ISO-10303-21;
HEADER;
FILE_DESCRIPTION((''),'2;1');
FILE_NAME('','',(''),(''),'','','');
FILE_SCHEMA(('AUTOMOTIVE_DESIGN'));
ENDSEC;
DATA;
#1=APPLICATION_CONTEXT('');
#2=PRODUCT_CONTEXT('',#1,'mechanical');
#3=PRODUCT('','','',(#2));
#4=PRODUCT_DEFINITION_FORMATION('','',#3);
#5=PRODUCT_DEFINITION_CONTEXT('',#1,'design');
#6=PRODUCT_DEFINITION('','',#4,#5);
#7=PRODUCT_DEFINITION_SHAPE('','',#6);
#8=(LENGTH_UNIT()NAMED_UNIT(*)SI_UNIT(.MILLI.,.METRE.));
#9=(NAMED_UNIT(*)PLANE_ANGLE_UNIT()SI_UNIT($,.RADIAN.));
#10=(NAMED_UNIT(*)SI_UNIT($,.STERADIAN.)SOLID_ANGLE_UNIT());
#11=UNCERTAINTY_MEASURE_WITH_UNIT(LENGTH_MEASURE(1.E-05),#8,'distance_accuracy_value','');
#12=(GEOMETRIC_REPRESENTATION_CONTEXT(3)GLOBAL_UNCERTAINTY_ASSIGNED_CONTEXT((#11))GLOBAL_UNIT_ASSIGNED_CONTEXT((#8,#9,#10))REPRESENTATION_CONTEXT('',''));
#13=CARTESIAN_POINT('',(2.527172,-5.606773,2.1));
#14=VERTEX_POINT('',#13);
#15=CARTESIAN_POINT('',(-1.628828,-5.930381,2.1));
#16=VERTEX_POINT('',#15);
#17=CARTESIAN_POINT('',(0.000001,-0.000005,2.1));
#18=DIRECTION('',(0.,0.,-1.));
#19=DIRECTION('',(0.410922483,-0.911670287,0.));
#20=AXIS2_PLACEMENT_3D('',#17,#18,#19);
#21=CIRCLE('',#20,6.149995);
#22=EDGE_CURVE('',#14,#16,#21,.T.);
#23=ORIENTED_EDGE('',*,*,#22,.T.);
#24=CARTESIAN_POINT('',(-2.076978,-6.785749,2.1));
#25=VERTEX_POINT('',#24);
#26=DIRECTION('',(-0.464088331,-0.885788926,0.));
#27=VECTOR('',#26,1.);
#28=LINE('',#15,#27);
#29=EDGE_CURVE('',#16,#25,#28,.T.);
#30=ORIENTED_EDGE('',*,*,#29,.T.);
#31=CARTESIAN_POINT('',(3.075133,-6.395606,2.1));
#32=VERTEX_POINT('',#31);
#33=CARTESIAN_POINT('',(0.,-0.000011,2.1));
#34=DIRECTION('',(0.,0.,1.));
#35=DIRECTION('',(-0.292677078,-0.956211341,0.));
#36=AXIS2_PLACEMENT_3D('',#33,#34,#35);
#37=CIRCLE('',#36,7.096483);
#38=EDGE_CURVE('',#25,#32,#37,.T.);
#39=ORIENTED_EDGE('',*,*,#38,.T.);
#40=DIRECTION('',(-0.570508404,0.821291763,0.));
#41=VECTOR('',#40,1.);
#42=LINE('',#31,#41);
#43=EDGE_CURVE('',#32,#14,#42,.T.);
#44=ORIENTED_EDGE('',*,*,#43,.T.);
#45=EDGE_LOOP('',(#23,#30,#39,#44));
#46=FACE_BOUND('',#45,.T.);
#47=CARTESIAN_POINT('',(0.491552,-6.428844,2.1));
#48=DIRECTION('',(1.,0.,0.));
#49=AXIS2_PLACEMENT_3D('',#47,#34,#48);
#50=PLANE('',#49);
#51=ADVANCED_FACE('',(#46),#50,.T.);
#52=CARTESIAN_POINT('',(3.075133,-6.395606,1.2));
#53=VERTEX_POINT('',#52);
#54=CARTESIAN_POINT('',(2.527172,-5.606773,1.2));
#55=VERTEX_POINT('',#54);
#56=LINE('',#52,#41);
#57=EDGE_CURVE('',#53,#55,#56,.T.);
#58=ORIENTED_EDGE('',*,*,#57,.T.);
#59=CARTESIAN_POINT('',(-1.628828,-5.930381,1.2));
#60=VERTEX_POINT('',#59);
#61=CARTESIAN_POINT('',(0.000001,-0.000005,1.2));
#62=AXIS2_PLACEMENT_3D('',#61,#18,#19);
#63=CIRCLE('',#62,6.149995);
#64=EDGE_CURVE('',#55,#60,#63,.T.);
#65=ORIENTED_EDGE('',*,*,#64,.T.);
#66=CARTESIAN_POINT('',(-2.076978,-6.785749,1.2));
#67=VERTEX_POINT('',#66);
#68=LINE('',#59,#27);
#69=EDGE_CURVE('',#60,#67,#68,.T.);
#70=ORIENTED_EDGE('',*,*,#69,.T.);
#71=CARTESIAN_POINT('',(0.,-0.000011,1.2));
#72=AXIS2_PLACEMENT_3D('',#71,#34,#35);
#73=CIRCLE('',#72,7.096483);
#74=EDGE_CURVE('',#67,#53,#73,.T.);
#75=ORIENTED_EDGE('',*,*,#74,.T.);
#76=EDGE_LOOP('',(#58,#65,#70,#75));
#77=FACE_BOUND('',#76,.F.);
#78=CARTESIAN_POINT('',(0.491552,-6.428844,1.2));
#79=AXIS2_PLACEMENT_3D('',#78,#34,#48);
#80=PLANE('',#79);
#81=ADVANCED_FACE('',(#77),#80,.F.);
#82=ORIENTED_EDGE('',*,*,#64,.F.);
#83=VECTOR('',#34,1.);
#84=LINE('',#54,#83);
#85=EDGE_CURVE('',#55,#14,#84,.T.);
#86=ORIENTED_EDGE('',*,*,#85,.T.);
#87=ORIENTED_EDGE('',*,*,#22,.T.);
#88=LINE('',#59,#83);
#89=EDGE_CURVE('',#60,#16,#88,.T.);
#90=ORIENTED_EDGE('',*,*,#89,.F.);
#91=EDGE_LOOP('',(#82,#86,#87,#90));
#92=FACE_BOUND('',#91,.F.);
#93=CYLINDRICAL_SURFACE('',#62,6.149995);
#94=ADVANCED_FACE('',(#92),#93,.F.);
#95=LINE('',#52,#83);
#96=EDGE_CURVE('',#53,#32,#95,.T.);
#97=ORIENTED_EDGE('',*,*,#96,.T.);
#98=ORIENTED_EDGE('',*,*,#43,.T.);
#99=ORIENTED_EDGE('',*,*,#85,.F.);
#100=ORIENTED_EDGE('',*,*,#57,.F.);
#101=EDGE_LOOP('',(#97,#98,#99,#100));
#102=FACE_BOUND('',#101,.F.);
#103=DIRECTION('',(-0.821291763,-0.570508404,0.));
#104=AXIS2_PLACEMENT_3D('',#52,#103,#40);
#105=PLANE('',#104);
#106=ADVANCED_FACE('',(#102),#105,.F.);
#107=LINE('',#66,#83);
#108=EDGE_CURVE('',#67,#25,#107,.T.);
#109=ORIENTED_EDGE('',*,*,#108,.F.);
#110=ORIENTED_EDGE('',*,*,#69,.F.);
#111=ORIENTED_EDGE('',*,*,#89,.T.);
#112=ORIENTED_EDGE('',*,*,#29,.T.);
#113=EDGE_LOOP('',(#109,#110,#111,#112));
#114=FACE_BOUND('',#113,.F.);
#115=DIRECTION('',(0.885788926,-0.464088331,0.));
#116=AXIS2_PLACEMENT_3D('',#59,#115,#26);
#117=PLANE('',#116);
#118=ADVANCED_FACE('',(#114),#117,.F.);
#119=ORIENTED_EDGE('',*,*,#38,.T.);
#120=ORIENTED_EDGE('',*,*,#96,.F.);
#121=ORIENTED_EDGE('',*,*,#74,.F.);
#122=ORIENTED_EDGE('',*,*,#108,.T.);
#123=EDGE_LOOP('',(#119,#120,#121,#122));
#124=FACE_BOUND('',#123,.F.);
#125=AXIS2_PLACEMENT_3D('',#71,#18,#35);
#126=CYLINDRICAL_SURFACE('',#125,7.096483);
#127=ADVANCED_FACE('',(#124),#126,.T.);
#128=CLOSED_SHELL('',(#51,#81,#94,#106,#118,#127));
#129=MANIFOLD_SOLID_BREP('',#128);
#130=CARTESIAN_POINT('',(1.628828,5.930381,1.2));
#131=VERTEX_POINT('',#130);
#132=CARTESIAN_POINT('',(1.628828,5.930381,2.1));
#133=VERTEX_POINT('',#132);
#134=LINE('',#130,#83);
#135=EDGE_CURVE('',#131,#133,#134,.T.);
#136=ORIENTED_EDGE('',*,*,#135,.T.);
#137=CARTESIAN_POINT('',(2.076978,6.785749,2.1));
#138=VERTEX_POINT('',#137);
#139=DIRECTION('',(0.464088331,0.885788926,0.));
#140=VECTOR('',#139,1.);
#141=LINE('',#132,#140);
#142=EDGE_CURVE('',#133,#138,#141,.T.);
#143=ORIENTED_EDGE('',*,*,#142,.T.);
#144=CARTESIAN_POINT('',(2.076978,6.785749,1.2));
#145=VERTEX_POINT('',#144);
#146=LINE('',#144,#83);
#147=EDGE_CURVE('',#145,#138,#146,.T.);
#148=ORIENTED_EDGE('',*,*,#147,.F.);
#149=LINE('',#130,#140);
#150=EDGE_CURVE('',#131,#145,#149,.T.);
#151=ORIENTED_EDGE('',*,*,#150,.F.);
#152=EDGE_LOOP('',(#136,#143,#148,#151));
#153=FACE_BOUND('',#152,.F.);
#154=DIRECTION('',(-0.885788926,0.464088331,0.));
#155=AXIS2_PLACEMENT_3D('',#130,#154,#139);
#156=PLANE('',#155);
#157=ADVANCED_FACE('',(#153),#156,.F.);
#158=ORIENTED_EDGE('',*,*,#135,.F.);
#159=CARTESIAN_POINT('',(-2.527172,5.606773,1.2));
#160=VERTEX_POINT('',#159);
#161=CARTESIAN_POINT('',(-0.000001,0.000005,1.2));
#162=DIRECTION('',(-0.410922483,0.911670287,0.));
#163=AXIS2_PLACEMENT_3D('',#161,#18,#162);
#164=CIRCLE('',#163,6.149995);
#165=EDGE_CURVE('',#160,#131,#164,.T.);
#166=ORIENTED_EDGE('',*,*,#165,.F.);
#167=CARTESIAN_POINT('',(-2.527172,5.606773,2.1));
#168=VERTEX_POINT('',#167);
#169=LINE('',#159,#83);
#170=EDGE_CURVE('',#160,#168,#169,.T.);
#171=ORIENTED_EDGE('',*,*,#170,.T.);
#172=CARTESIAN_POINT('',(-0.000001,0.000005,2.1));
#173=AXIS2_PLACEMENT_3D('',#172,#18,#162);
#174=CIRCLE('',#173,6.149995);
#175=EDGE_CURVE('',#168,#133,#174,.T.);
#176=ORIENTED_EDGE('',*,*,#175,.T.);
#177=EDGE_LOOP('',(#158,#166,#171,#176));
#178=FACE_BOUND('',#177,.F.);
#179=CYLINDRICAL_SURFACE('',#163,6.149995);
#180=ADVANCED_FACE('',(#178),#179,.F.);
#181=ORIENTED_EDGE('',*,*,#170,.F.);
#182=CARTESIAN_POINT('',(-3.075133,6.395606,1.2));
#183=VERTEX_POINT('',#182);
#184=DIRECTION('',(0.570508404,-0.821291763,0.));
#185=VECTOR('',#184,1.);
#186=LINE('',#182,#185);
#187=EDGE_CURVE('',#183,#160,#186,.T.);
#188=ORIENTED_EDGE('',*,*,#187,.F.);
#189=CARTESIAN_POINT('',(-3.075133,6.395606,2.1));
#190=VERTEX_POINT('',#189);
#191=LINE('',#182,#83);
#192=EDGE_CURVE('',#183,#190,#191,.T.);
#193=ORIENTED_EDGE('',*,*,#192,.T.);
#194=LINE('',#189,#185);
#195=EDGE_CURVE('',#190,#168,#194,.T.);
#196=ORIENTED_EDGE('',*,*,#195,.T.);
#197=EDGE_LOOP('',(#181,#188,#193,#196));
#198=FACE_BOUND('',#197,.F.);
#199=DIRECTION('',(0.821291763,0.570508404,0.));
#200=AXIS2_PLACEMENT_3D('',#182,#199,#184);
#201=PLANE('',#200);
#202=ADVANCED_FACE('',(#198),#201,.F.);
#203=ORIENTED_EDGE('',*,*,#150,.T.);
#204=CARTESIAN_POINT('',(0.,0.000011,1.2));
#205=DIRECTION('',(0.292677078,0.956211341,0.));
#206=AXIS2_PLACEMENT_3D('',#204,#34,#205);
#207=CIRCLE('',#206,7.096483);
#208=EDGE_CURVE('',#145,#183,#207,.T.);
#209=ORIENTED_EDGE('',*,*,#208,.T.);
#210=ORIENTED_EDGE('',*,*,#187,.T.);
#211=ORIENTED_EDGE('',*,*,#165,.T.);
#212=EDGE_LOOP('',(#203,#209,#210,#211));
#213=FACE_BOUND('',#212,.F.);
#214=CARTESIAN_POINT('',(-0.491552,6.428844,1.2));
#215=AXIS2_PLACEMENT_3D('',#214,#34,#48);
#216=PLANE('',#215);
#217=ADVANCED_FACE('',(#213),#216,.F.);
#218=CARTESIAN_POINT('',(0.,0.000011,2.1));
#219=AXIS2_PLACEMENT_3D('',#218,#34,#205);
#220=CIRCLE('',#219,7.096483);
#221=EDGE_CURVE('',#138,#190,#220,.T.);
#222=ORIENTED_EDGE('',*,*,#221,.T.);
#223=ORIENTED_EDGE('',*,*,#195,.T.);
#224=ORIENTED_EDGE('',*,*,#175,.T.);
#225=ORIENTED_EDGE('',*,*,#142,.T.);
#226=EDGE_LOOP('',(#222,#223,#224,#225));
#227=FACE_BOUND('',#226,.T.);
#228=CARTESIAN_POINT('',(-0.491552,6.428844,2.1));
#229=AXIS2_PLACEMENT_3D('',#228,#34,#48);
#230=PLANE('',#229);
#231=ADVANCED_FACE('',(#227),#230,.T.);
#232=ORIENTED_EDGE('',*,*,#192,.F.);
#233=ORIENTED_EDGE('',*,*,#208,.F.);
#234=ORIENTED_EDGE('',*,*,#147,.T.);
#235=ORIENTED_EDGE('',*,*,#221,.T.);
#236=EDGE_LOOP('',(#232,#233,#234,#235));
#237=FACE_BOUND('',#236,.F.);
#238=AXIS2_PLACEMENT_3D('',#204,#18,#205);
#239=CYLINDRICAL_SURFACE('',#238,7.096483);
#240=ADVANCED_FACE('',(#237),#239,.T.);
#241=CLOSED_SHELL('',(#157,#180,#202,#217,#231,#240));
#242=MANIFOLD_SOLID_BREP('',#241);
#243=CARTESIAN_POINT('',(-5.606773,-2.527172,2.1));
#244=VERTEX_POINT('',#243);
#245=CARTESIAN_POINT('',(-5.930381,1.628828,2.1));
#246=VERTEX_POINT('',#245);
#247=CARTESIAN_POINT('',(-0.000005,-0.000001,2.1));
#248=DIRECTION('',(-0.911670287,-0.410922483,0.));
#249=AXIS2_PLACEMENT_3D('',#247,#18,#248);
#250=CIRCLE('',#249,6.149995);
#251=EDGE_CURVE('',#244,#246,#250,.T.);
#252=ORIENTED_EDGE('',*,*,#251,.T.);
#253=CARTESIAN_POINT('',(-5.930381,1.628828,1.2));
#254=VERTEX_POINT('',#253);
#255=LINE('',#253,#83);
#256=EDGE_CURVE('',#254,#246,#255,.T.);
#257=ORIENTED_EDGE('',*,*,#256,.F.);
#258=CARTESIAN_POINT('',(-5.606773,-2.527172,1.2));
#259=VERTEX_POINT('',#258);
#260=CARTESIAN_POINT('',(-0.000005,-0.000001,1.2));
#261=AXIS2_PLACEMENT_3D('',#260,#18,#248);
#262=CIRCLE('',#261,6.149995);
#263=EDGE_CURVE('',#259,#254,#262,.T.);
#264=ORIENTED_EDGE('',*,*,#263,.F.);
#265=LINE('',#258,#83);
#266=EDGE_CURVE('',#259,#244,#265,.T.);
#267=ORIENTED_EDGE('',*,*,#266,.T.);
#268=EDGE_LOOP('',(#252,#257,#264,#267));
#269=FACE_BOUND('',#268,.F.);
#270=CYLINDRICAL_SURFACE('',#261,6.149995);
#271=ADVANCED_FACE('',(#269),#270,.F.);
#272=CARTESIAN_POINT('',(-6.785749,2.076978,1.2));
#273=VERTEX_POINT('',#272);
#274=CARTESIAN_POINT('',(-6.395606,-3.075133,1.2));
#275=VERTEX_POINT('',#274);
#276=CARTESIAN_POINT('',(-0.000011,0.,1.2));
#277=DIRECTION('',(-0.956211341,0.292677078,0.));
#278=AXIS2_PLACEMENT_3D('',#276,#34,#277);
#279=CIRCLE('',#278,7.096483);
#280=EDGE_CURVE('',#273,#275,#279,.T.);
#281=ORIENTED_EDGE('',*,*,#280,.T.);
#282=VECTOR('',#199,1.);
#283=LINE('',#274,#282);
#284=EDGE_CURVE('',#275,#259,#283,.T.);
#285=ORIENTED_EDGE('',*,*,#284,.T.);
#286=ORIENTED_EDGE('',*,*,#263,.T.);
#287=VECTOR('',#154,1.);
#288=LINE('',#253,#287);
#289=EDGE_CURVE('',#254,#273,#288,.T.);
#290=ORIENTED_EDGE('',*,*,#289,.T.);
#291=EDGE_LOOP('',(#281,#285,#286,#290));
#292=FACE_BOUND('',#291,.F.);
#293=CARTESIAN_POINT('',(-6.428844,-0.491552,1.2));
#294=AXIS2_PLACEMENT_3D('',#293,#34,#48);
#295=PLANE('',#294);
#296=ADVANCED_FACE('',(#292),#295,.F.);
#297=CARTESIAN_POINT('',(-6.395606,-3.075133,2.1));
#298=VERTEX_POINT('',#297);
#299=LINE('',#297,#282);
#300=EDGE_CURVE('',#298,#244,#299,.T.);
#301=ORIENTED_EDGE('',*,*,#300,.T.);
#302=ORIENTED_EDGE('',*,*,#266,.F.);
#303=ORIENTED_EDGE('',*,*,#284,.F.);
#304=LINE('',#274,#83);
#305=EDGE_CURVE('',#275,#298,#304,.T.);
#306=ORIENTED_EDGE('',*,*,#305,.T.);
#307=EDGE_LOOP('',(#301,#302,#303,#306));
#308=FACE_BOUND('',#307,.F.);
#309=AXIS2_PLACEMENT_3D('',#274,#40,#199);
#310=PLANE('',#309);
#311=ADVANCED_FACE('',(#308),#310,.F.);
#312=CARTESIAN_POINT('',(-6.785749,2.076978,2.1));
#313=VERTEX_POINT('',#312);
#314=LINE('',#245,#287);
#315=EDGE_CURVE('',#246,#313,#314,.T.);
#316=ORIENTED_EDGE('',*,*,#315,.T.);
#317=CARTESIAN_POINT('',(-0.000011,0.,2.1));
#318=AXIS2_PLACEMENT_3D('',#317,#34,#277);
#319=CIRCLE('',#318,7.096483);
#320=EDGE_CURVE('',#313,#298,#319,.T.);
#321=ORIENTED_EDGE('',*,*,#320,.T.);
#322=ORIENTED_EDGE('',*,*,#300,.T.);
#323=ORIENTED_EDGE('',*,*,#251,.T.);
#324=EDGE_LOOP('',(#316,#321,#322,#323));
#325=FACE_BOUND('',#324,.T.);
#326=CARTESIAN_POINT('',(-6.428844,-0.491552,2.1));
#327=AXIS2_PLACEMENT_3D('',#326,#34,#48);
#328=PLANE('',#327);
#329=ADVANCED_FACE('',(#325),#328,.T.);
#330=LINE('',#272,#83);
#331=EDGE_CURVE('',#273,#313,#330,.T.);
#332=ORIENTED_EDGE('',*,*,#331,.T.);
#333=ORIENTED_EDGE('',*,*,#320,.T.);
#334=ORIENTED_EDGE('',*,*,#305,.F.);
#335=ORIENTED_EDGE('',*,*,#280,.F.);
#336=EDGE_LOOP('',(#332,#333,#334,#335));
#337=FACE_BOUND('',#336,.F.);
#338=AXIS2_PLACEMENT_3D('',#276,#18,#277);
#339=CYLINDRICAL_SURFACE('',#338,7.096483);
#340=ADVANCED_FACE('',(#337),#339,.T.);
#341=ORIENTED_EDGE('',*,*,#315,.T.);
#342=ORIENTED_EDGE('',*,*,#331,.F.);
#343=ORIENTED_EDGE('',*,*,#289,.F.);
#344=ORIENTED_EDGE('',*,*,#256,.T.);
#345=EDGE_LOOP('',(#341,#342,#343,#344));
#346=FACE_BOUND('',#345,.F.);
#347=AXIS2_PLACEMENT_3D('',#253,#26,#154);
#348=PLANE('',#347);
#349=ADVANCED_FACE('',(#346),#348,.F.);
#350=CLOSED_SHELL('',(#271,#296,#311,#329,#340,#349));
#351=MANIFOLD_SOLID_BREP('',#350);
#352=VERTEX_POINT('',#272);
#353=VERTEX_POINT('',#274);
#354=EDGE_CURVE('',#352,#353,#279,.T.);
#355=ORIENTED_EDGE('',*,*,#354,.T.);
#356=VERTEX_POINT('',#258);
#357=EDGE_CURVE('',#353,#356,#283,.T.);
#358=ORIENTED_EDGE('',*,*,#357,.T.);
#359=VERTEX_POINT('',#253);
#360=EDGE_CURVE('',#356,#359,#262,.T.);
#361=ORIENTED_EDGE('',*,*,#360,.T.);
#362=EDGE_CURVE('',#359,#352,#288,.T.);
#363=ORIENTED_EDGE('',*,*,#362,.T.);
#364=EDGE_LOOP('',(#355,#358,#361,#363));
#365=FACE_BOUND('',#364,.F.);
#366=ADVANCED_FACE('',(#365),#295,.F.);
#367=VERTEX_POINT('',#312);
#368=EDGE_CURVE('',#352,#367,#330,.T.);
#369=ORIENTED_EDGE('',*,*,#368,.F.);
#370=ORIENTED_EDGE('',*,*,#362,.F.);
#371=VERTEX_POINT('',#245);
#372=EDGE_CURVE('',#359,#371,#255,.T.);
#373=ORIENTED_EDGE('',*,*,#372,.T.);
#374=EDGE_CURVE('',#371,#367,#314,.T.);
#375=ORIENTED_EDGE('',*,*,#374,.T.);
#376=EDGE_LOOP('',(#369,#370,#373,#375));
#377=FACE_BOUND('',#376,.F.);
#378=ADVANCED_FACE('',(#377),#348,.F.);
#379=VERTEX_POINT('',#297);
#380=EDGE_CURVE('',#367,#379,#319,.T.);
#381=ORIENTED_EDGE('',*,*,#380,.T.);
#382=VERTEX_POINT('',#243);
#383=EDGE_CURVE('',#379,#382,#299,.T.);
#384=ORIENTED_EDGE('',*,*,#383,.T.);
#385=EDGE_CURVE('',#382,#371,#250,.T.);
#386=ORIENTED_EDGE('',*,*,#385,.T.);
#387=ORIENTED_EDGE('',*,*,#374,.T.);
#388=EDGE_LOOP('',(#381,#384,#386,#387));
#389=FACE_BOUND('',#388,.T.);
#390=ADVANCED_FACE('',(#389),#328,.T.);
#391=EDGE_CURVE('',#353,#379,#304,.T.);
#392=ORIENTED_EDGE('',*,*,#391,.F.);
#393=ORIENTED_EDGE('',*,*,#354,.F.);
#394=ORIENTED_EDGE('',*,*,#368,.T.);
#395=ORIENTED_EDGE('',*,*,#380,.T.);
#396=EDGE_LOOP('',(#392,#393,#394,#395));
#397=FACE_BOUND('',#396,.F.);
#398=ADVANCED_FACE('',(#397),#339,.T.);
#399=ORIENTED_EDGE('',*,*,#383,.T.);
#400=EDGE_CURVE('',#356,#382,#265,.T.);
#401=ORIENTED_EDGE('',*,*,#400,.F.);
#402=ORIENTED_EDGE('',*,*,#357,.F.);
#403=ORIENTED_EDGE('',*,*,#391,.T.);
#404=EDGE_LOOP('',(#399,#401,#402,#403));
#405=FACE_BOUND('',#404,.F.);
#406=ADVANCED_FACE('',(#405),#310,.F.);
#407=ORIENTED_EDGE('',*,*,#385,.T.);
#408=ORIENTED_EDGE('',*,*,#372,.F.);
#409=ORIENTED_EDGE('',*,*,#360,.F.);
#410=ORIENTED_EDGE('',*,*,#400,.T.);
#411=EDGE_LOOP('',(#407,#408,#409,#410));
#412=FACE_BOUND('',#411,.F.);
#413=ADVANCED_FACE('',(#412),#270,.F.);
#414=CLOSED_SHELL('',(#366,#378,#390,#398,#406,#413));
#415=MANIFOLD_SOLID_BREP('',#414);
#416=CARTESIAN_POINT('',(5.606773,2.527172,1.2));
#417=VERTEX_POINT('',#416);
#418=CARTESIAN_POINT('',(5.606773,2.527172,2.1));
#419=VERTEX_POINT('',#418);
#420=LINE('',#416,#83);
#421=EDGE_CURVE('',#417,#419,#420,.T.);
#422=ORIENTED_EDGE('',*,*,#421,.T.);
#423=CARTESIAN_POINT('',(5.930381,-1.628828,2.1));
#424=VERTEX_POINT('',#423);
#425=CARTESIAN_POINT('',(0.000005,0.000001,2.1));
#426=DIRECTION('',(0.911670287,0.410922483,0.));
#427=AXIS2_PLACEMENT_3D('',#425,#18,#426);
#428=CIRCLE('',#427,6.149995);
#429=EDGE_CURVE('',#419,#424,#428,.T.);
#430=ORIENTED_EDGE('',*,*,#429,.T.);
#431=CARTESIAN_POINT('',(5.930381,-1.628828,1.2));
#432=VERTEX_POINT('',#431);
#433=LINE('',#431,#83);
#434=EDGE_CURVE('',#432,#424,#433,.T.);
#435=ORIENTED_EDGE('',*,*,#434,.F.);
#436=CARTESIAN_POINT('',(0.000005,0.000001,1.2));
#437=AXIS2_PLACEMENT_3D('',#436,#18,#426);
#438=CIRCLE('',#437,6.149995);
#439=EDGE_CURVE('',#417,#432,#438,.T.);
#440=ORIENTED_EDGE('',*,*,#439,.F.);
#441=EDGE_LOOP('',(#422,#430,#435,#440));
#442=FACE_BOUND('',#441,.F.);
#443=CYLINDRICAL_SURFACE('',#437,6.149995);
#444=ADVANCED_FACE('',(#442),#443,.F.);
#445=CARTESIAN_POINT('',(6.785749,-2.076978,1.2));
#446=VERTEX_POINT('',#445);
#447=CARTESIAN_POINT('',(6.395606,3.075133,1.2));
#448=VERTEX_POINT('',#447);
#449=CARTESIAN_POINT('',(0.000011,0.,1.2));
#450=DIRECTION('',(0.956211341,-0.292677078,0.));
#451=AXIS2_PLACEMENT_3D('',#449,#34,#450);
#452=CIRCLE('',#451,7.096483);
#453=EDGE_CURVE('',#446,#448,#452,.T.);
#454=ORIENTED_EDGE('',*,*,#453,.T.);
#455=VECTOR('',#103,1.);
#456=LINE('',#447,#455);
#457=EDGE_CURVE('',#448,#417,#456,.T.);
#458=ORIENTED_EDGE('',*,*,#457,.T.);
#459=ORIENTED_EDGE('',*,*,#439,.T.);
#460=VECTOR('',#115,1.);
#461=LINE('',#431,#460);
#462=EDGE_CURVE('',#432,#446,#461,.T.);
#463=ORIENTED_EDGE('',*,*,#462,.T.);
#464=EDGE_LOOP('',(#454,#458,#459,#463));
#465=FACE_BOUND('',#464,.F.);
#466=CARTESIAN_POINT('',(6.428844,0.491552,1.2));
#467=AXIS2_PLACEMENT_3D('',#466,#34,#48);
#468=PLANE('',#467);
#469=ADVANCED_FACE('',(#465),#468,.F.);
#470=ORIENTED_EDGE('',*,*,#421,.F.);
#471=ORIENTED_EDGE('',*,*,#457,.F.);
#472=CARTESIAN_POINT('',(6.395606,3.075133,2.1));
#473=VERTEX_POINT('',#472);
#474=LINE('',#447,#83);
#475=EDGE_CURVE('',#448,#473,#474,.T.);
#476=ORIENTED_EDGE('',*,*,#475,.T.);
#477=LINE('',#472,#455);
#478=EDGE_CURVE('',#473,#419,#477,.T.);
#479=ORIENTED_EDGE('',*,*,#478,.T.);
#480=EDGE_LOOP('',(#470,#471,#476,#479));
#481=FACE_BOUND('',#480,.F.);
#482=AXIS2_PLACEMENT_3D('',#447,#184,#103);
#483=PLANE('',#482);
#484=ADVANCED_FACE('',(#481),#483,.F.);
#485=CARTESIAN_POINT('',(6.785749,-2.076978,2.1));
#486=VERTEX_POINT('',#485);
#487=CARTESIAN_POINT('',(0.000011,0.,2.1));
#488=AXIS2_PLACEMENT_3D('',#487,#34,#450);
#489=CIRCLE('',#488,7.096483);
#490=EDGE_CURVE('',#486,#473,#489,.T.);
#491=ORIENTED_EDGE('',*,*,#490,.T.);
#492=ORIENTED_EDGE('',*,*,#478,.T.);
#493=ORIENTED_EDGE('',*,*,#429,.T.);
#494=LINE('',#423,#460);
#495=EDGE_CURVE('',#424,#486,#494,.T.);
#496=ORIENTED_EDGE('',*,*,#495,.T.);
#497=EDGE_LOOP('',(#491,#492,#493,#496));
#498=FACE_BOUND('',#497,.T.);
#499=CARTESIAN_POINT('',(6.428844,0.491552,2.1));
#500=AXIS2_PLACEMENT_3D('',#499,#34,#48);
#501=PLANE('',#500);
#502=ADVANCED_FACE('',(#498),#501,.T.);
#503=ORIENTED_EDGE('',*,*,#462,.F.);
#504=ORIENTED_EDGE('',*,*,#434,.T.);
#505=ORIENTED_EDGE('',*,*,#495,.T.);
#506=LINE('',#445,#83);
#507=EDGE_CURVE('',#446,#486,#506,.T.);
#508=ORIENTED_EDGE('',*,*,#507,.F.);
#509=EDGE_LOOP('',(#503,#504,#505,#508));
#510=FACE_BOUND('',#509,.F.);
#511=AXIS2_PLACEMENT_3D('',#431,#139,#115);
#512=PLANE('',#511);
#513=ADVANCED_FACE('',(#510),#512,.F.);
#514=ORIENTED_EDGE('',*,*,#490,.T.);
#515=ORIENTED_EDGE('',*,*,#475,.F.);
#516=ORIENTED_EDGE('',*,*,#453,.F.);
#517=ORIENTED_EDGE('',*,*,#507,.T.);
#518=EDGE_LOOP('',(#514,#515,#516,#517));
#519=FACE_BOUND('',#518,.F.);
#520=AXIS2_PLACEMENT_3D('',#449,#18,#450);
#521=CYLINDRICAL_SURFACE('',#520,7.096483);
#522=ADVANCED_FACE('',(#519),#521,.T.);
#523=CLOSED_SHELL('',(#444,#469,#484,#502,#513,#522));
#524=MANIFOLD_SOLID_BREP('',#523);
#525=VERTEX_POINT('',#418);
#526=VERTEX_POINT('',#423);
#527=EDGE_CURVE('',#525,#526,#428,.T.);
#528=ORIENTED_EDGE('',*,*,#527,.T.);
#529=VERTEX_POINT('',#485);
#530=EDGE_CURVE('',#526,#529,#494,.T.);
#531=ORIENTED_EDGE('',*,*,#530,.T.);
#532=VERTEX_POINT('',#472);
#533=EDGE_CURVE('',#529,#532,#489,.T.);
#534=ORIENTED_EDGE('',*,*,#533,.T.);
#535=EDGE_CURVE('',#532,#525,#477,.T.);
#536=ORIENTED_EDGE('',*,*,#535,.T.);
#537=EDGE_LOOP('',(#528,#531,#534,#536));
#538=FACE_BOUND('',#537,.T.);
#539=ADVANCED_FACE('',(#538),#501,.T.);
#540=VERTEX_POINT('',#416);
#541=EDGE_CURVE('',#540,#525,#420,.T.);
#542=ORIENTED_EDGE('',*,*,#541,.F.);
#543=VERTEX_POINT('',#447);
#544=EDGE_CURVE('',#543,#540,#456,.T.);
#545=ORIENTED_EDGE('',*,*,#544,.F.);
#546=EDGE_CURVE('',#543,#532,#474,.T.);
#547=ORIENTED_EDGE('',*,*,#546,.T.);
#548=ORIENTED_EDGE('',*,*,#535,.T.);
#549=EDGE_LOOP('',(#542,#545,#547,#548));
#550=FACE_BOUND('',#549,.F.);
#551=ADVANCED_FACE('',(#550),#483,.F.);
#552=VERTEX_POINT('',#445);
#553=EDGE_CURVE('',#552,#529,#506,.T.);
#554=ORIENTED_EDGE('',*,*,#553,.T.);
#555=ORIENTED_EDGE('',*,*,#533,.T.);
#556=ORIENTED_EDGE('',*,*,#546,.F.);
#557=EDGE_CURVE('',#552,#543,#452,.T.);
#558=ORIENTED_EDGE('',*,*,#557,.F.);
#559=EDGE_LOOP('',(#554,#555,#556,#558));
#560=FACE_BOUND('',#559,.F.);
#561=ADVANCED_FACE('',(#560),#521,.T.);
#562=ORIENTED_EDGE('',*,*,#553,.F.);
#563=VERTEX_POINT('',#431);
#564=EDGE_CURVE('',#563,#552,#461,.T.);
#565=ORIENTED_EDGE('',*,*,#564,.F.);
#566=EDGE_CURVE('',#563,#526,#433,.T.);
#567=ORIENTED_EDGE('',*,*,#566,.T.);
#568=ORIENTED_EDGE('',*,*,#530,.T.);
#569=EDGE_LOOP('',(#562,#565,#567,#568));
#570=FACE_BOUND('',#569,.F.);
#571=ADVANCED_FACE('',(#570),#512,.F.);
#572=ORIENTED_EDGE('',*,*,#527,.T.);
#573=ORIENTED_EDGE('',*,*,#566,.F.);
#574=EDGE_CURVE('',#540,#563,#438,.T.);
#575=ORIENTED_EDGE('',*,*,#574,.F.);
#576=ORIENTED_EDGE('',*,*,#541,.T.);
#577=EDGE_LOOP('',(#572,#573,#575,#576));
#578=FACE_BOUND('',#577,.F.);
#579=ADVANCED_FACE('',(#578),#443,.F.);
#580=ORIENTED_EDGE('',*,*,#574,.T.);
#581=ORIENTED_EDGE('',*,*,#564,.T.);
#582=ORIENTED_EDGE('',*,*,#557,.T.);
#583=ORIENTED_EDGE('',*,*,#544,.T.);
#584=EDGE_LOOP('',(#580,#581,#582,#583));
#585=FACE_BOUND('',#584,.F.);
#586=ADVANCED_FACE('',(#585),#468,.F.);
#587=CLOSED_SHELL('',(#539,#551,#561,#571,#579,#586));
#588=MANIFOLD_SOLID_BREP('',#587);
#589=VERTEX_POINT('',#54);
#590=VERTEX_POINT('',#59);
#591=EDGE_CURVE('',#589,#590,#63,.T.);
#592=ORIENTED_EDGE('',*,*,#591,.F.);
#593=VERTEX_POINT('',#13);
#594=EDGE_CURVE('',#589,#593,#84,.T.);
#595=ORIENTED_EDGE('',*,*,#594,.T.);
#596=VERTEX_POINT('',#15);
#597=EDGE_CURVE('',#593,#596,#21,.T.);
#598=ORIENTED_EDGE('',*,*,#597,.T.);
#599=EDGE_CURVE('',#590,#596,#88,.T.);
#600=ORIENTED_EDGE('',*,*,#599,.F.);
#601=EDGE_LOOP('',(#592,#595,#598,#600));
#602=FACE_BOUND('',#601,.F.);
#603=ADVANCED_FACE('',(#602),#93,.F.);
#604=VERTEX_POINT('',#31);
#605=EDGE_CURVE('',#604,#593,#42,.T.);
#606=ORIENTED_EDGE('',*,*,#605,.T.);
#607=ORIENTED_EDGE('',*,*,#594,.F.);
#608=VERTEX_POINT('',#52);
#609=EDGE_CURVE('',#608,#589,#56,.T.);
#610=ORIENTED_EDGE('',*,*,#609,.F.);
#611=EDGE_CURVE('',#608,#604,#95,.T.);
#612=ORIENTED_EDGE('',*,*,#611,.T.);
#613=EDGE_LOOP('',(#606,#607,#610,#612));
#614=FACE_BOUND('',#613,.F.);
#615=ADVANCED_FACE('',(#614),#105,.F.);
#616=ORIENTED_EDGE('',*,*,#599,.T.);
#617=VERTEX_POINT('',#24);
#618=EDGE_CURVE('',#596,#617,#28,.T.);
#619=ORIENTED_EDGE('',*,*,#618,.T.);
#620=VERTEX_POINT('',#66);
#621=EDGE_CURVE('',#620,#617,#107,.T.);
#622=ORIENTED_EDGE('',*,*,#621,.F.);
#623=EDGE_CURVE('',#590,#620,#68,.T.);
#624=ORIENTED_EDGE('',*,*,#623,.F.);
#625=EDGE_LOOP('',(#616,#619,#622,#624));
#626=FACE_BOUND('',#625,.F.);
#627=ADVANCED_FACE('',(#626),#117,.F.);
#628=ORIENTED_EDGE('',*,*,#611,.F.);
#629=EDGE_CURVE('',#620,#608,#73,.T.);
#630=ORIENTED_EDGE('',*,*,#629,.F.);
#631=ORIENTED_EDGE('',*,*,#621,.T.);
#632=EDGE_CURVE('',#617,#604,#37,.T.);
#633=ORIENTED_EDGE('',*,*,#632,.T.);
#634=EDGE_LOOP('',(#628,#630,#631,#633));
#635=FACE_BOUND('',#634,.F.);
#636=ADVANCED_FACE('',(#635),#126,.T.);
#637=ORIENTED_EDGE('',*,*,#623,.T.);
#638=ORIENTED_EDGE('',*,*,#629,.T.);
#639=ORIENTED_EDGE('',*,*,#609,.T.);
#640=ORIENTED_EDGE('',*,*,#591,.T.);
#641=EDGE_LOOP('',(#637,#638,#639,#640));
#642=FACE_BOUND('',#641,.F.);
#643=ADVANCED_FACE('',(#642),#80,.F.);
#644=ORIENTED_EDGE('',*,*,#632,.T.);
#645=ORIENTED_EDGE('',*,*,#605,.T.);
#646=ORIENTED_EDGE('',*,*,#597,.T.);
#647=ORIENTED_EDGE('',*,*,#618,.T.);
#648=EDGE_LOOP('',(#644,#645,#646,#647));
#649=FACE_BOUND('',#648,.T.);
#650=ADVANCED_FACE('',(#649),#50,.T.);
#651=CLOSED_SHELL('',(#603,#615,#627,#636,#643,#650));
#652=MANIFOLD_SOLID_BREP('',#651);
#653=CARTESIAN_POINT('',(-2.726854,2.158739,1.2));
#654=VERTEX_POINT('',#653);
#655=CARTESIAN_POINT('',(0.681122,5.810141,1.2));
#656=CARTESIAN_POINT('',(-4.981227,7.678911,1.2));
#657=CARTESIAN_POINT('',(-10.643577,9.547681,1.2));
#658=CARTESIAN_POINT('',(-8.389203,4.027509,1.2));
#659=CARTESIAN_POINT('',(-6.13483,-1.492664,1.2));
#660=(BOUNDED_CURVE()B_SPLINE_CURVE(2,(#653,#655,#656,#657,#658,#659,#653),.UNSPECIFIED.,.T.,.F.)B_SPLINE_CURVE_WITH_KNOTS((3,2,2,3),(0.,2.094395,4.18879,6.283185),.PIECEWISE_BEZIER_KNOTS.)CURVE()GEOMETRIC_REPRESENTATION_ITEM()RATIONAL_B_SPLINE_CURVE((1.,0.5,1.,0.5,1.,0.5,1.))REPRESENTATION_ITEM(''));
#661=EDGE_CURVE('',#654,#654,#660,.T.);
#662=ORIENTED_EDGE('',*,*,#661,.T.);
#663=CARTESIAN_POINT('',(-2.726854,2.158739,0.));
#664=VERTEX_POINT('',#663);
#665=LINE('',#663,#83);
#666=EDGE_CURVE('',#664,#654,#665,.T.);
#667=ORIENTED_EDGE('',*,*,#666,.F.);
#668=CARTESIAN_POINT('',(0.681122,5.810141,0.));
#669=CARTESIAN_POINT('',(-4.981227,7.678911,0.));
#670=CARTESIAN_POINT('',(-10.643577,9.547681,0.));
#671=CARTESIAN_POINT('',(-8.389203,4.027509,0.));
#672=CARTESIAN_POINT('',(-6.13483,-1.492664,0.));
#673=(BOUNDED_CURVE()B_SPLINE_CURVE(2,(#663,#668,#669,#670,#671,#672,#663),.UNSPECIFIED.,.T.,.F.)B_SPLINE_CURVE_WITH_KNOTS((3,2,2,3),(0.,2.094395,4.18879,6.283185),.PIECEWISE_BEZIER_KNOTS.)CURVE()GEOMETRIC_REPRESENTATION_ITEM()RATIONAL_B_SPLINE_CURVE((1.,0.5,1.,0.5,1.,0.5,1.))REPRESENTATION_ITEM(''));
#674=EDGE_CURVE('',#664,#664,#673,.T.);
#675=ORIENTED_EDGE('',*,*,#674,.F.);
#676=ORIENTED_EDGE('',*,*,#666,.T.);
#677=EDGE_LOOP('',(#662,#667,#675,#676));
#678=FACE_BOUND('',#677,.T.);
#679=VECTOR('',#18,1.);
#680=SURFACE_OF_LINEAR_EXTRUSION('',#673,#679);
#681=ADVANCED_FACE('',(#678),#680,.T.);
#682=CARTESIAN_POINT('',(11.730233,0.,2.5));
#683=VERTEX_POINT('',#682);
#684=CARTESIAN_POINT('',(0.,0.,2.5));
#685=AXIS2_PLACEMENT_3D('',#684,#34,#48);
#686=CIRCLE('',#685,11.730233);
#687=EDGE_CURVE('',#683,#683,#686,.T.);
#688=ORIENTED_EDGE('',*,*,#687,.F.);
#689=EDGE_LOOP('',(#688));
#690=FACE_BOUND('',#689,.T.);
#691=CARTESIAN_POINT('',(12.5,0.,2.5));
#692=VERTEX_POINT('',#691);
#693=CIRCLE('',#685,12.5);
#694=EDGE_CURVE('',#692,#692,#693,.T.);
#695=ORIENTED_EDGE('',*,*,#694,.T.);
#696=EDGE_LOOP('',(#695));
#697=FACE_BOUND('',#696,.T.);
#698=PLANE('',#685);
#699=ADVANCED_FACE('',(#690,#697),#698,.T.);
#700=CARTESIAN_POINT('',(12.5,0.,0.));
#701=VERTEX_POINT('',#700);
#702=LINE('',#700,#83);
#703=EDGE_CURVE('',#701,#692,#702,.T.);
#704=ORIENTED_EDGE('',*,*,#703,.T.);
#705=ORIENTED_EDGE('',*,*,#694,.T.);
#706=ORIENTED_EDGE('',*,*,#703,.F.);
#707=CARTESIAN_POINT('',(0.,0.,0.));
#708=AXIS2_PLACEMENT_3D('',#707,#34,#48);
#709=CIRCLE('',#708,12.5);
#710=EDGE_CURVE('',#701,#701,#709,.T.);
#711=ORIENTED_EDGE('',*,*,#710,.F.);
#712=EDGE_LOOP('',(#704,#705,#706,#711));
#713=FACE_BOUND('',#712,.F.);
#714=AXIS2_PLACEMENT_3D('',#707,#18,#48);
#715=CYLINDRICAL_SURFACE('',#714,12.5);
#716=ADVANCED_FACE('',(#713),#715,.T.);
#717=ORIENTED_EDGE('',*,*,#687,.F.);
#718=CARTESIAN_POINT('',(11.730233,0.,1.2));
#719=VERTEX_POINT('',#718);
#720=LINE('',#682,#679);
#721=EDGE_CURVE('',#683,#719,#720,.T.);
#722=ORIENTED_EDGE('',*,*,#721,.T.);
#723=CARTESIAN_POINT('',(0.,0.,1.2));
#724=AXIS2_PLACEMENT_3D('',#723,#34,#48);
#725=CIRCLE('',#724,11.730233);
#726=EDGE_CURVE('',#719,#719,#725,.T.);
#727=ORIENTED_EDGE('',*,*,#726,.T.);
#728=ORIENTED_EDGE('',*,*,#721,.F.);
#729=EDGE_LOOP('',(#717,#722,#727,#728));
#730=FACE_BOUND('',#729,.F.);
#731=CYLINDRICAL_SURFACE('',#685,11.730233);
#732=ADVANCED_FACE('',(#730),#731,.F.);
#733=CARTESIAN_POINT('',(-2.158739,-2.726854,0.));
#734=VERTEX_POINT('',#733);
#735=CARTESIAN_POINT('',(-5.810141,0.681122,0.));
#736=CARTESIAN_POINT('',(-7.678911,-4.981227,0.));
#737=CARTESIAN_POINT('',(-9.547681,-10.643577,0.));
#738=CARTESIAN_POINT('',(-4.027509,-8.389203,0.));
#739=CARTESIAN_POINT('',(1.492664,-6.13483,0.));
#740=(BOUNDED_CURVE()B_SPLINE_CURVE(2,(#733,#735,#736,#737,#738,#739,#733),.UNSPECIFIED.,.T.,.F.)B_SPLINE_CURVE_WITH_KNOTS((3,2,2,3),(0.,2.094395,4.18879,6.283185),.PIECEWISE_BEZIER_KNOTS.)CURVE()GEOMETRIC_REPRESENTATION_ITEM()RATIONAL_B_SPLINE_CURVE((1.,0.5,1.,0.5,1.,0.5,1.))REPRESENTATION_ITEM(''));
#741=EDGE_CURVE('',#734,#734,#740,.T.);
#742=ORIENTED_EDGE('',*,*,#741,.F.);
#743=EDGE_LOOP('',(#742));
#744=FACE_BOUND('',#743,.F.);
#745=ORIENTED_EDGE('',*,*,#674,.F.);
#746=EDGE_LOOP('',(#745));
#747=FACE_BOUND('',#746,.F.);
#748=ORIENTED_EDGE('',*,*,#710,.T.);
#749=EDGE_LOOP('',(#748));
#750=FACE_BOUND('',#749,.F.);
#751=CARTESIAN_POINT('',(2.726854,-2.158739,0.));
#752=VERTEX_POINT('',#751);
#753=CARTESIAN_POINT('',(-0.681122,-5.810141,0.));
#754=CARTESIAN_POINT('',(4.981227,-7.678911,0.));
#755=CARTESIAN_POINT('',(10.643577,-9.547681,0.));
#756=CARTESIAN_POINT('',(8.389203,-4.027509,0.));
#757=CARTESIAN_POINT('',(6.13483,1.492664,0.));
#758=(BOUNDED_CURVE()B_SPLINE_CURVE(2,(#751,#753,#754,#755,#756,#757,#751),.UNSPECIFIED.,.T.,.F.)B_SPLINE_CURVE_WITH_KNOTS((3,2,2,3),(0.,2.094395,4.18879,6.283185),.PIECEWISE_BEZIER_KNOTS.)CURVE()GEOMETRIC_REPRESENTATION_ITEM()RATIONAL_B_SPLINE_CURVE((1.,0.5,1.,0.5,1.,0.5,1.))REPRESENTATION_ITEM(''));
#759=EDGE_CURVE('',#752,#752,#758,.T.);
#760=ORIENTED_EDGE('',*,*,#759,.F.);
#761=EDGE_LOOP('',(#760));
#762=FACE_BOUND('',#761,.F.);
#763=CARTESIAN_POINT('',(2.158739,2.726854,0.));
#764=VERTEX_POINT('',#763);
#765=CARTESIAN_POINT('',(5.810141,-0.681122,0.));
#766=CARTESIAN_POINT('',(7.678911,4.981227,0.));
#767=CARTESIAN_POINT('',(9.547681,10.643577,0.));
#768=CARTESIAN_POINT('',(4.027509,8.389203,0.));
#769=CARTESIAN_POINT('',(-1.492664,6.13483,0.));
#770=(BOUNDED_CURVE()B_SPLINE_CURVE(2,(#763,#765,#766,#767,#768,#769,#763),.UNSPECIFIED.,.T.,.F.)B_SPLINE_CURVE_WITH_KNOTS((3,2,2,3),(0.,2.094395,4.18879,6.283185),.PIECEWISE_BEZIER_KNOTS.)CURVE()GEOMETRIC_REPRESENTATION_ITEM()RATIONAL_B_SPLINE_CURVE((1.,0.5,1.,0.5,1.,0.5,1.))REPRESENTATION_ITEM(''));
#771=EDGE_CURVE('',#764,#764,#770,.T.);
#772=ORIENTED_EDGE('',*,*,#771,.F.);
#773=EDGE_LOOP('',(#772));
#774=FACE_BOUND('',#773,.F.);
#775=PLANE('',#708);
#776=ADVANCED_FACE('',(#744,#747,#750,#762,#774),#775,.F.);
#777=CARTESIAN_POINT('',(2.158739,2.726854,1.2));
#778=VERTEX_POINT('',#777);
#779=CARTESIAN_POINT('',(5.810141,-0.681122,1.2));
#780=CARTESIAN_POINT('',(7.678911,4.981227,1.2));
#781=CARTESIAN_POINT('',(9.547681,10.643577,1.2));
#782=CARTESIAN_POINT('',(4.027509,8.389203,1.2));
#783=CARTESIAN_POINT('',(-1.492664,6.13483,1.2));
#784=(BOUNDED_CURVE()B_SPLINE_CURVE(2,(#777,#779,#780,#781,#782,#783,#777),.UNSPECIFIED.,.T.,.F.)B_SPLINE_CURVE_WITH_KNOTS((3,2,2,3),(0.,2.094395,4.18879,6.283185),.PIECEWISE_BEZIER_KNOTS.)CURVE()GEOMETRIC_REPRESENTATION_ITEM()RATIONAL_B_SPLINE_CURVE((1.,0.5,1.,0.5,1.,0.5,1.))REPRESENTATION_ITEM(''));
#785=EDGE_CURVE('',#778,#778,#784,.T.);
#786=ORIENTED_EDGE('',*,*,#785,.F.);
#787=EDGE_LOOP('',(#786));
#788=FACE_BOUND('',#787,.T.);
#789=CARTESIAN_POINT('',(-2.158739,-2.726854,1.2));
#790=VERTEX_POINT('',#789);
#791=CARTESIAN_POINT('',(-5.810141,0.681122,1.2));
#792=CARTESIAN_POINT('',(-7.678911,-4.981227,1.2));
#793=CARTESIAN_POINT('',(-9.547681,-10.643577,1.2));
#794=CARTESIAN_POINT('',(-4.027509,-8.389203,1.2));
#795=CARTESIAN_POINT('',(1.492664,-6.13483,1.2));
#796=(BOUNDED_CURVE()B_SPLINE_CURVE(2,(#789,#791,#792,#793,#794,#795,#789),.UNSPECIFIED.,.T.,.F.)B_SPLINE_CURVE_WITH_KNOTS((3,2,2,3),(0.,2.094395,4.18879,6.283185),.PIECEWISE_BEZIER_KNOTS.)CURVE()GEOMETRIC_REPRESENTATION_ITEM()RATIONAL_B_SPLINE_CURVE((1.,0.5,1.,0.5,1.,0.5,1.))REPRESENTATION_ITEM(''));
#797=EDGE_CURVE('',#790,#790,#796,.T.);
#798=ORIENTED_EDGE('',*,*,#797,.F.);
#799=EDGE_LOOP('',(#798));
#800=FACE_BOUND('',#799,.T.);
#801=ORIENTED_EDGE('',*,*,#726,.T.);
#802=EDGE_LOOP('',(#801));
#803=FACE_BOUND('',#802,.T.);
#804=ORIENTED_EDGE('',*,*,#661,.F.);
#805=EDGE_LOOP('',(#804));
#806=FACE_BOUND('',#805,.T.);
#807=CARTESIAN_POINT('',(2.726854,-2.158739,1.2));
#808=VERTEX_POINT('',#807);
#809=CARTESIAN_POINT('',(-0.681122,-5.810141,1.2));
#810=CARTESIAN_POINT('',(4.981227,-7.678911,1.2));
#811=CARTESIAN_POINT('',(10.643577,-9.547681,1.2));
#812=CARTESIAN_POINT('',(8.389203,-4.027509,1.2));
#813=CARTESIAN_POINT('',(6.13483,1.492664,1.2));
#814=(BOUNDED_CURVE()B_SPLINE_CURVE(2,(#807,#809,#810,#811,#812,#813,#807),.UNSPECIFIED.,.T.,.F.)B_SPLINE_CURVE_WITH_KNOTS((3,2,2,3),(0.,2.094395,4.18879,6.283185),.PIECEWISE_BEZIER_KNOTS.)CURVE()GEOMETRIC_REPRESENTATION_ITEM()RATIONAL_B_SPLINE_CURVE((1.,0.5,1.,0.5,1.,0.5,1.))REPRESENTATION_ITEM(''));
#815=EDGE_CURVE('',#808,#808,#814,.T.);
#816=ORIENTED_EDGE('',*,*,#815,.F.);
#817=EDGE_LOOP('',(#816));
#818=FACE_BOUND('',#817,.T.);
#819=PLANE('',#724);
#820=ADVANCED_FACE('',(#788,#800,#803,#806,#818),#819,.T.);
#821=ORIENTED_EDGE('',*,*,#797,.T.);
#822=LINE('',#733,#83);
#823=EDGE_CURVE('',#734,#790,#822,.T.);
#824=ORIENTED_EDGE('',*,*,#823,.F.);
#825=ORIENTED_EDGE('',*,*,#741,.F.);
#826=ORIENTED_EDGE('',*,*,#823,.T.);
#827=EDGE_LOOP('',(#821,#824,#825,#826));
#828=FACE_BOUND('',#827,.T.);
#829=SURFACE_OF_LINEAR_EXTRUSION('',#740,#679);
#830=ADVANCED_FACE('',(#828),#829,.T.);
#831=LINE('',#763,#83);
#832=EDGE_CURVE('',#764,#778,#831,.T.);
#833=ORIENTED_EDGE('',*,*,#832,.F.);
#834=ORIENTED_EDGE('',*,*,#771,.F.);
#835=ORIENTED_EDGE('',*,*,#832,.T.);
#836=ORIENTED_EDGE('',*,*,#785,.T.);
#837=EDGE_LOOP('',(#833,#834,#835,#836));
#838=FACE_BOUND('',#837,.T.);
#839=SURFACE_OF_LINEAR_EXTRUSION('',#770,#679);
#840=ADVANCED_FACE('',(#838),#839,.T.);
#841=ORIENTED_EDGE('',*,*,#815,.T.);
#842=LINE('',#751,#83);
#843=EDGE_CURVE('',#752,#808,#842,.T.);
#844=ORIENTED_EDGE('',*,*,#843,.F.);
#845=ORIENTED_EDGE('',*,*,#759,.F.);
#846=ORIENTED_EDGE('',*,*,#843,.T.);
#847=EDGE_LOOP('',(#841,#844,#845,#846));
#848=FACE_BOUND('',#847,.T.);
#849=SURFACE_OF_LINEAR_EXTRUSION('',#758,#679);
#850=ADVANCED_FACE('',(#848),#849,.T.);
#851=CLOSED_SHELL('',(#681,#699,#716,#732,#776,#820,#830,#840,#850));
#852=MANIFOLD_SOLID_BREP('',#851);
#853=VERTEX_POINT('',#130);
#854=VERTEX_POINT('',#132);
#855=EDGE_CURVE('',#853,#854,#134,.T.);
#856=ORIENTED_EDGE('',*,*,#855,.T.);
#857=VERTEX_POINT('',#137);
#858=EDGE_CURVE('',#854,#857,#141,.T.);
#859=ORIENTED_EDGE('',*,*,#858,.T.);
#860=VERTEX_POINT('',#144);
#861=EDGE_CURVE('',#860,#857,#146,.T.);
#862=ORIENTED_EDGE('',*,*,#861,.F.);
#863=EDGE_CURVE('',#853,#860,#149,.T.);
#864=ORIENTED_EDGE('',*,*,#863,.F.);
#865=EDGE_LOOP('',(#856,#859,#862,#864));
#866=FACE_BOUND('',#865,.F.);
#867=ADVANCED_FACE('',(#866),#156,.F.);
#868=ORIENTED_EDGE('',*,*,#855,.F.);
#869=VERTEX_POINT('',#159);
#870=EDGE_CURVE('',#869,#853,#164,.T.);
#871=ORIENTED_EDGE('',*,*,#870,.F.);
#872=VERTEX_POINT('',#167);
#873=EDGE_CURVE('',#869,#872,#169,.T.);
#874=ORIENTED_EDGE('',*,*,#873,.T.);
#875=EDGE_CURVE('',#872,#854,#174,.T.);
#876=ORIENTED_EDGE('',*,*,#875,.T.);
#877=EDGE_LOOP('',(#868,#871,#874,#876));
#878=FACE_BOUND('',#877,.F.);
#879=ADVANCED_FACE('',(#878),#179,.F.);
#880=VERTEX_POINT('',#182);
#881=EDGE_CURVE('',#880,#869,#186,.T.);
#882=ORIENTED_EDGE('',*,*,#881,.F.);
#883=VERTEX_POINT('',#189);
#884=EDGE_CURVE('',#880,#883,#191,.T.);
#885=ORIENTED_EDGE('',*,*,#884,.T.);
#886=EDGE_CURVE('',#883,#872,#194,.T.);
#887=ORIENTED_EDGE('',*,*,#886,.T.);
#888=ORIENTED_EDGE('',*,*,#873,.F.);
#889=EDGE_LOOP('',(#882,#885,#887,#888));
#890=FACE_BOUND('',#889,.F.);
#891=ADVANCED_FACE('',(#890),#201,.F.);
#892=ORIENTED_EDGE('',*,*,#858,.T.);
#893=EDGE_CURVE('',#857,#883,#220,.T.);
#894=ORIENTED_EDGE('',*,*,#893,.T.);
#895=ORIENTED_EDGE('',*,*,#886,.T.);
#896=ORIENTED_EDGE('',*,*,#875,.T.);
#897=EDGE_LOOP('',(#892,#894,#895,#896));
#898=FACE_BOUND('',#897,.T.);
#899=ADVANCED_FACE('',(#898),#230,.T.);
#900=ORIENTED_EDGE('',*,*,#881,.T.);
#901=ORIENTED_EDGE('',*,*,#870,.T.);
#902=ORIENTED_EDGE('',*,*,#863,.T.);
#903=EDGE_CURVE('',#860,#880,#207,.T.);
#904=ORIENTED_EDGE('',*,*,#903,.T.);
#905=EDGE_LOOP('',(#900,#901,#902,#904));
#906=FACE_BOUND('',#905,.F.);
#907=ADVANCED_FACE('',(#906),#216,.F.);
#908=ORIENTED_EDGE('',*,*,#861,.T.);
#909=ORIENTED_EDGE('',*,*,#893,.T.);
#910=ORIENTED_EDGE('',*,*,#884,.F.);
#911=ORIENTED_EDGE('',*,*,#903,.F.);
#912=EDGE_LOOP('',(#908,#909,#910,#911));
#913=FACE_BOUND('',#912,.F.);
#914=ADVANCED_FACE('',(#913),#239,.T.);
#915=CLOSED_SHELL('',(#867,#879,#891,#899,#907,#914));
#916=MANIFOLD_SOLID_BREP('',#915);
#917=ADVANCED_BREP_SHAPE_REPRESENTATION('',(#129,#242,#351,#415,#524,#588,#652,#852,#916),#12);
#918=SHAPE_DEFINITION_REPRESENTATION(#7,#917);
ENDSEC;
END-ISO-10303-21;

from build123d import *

# Parameters (mm, degrees)
F0_R     = 12.5
F1_DEPTH = 2.5
F2_R     = 11.730233
F3_DEPTH = 1.3
F5_DEPTH = 0.9
F6_DEPTH = 0.9


with BuildPart() as f1:
    # F0 (on Top) → F1 (new body)
    with BuildSketch(Plane.XY):
        Circle(F0_R)
        with BuildLine():
            add(Edge.make_bspline(
                [(-2.158739, -2.726854), (-5.810141, 0.681122), (-7.678911, -4.981227), (-9.547681, -10.643577), (-4.027509, -8.389203), (1.492664, -6.13483), (-2.158739, -2.726854)],
                knots=[0, 0, 0, 2.094395, 2.094395, 4.18879, 4.18879, 6.283185, 6.283185, 6.283185], degree=2, weights=[1, 0.5, 1, 0.5, 1, 0.5, 1]))
        make_face(mode=Mode.SUBTRACT)
        with BuildLine():
            add(Edge.make_bspline(
                [(2.726854, -2.158739), (-0.681122, -5.810141), (4.981227, -7.678911), (10.643577, -9.547681), (8.389203, -4.027509), (6.13483, 1.492664), (2.726854, -2.158739)],
                knots=[0, 0, 0, 2.094395, 2.094395, 4.18879, 4.18879, 6.283185, 6.283185, 6.283185], degree=2, weights=[1, 0.5, 1, 0.5, 1, 0.5, 1]))
        make_face(mode=Mode.SUBTRACT)
        with BuildLine():
            add(Edge.make_bspline(
                [(-2.726854, 2.158739), (0.681122, 5.810141), (-4.981227, 7.678911), (-10.643577, 9.547681), (-8.389203, 4.027509), (-6.13483, -1.492664), (-2.726854, 2.158739)],
                knots=[0, 0, 0, 2.094395, 2.094395, 4.18879, 4.18879, 6.283185, 6.283185, 6.283185], degree=2, weights=[1, 0.5, 1, 0.5, 1, 0.5, 1]))
        make_face(mode=Mode.SUBTRACT)
        with BuildLine():
            add(Edge.make_bspline(
                [(2.158739, 2.726854), (5.810141, -0.681122), (7.678911, 4.981227), (9.547681, 10.643577), (4.027509, 8.389203), (-1.492664, 6.13483), (2.158739, 2.726854)],
                knots=[0, 0, 0, 2.094395, 2.094395, 4.18879, 4.18879, 6.283185, 6.283185, 6.283185], degree=2, weights=[1, 0.5, 1, 0.5, 1, 0.5, 1]))
        make_face(mode=Mode.SUBTRACT)
    extrude(amount=F1_DEPTH)

    # F2 (on face) → F3 (cut)
    with BuildSketch(Plane.XY.offset(2.5)):
        Circle(F2_R)
        with BuildLine():
            add(Edge.make_bspline(
                [(-2.158739, -2.726854), (-5.810141, 0.681122), (-7.678911, -4.981227), (-9.547681, -10.643577), (-4.027509, -8.389203), (1.492664, -6.13483), (-2.158739, -2.726854)],
                knots=[0, 0, 0, 2.094395, 2.094395, 4.18879, 4.18879, 6.283185, 6.283185, 6.283185], degree=2, weights=[1, 0.5, 1, 0.5, 1, 0.5, 1]))
        make_face(mode=Mode.SUBTRACT)
        with BuildLine():
            add(Edge.make_bspline(
                [(2.726854, -2.158739), (-0.681122, -5.810141), (4.981227, -7.678911), (10.643577, -9.547681), (8.389203, -4.027509), (6.13483, 1.492664), (2.726854, -2.158739)],
                knots=[0, 0, 0, 2.094395, 2.094395, 4.18879, 4.18879, 6.283185, 6.283185, 6.283185], degree=2, weights=[1, 0.5, 1, 0.5, 1, 0.5, 1]))
        make_face(mode=Mode.SUBTRACT)
        with BuildLine():
            add(Edge.make_bspline(
                [(-2.726854, 2.158739), (0.681122, 5.810141), (-4.981227, 7.678911), (-10.643577, 9.547681), (-8.389203, 4.027509), (-6.13483, -1.492664), (-2.726854, 2.158739)],
                knots=[0, 0, 0, 2.094395, 2.094395, 4.18879, 4.18879, 6.283185, 6.283185, 6.283185], degree=2, weights=[1, 0.5, 1, 0.5, 1, 0.5, 1]))
        make_face(mode=Mode.SUBTRACT)
        with BuildLine():
            add(Edge.make_bspline(
                [(2.158739, 2.726854), (5.810141, -0.681122), (7.678911, 4.981227), (9.547681, 10.643577), (4.027509, 8.389203), (-1.492664, 6.13483), (2.158739, 2.726854)],
                knots=[0, 0, 0, 2.094395, 2.094395, 4.18879, 4.18879, 6.283185, 6.283185, 6.283185], degree=2, weights=[1, 0.5, 1, 0.5, 1, 0.5, 1]))
        make_face(mode=Mode.SUBTRACT)
    extrude(amount=-F3_DEPTH, mode=Mode.SUBTRACT)


with BuildPart() as f5:
    # F4 (on face) → F5 (new body)
    with BuildSketch(Plane.XY.offset(1.2)):
        with BuildLine():
            Line((-5.930381, 1.628828), (-6.785749, 2.076978))
            ThreePointArc((-6.785749, 2.076978), (-7.076235, -0.535847), (-6.395606, -3.075133))
            Line((-6.395606, -3.075133), (-5.606773, -2.527172))
            ThreePointArc((-5.606773, -2.527172), (-6.131441, -0.477426), (-5.930381, 1.628828))
        make_face()
        with BuildLine():
            Line((1.628828, 5.930381), (2.076978, 6.785749))
            ThreePointArc((2.076978, 6.785749), (-0.535847, 7.076235), (-3.075133, 6.395606))
            Line((-3.075133, 6.395606), (-2.527172, 5.606773))
            ThreePointArc((-2.527172, 5.606773), (-0.477426, 6.131441), (1.628828, 5.930381))
        make_face()
        with BuildLine():
            ThreePointArc((5.606773, 2.527172), (6.131441, 0.477426), (5.930381, -1.628828))
            Line((5.930381, -1.628828), (6.785749, -2.076978))
            ThreePointArc((6.785749, -2.076978), (7.076235, 0.535847), (6.395606, 3.075133))
            Line((6.395606, 3.075133), (5.606773, 2.527172))
        make_face()
        with BuildLine():
            ThreePointArc((2.527172, -5.606773), (0.477426, -6.131441), (-1.628828, -5.930381))
            Line((-1.628828, -5.930381), (-2.076978, -6.785749))
            ThreePointArc((-2.076978, -6.785749), (0.535847, -7.076235), (3.075133, -6.395606))
            Line((3.075133, -6.395606), (2.527172, -5.606773))
        make_face()
    extrude(amount=F5_DEPTH)


with BuildPart() as f6:
    # F4 (on face) → F6 (new body)
    with BuildSketch(Plane.XY.offset(1.2)):
        with BuildLine():
            Line((-5.930381, 1.628828), (-6.785749, 2.076978))
            ThreePointArc((-6.785749, 2.076978), (-7.076235, -0.535847), (-6.395606, -3.075133))
            Line((-6.395606, -3.075133), (-5.606773, -2.527172))
            ThreePointArc((-5.606773, -2.527172), (-6.131441, -0.477426), (-5.930381, 1.628828))
        make_face()
        with BuildLine():
            Line((1.628828, 5.930381), (2.076978, 6.785749))
            ThreePointArc((2.076978, 6.785749), (-0.535847, 7.076235), (-3.075133, 6.395606))
            Line((-3.075133, 6.395606), (-2.527172, 5.606773))
            ThreePointArc((-2.527172, 5.606773), (-0.477426, 6.131441), (1.628828, 5.930381))
        make_face()
        with BuildLine():
            ThreePointArc((5.606773, 2.527172), (6.131441, 0.477426), (5.930381, -1.628828))
            Line((5.930381, -1.628828), (6.785749, -2.076978))
            ThreePointArc((6.785749, -2.076978), (7.076235, 0.535847), (6.395606, 3.075133))
            Line((6.395606, 3.075133), (5.606773, 2.527172))
        make_face()
        with BuildLine():
            ThreePointArc((2.527172, -5.606773), (0.477426, -6.131441), (-1.628828, -5.930381))
            Line((-1.628828, -5.930381), (-2.076978, -6.785749))
            ThreePointArc((-2.076978, -6.785749), (0.535847, -7.076235), (3.075133, -6.395606))
            Line((3.075133, -6.395606), (2.527172, -5.606773))
        make_face()
    extrude(amount=F6_DEPTH)


solid = Compound([f1.part, f5.part, f6.part])
